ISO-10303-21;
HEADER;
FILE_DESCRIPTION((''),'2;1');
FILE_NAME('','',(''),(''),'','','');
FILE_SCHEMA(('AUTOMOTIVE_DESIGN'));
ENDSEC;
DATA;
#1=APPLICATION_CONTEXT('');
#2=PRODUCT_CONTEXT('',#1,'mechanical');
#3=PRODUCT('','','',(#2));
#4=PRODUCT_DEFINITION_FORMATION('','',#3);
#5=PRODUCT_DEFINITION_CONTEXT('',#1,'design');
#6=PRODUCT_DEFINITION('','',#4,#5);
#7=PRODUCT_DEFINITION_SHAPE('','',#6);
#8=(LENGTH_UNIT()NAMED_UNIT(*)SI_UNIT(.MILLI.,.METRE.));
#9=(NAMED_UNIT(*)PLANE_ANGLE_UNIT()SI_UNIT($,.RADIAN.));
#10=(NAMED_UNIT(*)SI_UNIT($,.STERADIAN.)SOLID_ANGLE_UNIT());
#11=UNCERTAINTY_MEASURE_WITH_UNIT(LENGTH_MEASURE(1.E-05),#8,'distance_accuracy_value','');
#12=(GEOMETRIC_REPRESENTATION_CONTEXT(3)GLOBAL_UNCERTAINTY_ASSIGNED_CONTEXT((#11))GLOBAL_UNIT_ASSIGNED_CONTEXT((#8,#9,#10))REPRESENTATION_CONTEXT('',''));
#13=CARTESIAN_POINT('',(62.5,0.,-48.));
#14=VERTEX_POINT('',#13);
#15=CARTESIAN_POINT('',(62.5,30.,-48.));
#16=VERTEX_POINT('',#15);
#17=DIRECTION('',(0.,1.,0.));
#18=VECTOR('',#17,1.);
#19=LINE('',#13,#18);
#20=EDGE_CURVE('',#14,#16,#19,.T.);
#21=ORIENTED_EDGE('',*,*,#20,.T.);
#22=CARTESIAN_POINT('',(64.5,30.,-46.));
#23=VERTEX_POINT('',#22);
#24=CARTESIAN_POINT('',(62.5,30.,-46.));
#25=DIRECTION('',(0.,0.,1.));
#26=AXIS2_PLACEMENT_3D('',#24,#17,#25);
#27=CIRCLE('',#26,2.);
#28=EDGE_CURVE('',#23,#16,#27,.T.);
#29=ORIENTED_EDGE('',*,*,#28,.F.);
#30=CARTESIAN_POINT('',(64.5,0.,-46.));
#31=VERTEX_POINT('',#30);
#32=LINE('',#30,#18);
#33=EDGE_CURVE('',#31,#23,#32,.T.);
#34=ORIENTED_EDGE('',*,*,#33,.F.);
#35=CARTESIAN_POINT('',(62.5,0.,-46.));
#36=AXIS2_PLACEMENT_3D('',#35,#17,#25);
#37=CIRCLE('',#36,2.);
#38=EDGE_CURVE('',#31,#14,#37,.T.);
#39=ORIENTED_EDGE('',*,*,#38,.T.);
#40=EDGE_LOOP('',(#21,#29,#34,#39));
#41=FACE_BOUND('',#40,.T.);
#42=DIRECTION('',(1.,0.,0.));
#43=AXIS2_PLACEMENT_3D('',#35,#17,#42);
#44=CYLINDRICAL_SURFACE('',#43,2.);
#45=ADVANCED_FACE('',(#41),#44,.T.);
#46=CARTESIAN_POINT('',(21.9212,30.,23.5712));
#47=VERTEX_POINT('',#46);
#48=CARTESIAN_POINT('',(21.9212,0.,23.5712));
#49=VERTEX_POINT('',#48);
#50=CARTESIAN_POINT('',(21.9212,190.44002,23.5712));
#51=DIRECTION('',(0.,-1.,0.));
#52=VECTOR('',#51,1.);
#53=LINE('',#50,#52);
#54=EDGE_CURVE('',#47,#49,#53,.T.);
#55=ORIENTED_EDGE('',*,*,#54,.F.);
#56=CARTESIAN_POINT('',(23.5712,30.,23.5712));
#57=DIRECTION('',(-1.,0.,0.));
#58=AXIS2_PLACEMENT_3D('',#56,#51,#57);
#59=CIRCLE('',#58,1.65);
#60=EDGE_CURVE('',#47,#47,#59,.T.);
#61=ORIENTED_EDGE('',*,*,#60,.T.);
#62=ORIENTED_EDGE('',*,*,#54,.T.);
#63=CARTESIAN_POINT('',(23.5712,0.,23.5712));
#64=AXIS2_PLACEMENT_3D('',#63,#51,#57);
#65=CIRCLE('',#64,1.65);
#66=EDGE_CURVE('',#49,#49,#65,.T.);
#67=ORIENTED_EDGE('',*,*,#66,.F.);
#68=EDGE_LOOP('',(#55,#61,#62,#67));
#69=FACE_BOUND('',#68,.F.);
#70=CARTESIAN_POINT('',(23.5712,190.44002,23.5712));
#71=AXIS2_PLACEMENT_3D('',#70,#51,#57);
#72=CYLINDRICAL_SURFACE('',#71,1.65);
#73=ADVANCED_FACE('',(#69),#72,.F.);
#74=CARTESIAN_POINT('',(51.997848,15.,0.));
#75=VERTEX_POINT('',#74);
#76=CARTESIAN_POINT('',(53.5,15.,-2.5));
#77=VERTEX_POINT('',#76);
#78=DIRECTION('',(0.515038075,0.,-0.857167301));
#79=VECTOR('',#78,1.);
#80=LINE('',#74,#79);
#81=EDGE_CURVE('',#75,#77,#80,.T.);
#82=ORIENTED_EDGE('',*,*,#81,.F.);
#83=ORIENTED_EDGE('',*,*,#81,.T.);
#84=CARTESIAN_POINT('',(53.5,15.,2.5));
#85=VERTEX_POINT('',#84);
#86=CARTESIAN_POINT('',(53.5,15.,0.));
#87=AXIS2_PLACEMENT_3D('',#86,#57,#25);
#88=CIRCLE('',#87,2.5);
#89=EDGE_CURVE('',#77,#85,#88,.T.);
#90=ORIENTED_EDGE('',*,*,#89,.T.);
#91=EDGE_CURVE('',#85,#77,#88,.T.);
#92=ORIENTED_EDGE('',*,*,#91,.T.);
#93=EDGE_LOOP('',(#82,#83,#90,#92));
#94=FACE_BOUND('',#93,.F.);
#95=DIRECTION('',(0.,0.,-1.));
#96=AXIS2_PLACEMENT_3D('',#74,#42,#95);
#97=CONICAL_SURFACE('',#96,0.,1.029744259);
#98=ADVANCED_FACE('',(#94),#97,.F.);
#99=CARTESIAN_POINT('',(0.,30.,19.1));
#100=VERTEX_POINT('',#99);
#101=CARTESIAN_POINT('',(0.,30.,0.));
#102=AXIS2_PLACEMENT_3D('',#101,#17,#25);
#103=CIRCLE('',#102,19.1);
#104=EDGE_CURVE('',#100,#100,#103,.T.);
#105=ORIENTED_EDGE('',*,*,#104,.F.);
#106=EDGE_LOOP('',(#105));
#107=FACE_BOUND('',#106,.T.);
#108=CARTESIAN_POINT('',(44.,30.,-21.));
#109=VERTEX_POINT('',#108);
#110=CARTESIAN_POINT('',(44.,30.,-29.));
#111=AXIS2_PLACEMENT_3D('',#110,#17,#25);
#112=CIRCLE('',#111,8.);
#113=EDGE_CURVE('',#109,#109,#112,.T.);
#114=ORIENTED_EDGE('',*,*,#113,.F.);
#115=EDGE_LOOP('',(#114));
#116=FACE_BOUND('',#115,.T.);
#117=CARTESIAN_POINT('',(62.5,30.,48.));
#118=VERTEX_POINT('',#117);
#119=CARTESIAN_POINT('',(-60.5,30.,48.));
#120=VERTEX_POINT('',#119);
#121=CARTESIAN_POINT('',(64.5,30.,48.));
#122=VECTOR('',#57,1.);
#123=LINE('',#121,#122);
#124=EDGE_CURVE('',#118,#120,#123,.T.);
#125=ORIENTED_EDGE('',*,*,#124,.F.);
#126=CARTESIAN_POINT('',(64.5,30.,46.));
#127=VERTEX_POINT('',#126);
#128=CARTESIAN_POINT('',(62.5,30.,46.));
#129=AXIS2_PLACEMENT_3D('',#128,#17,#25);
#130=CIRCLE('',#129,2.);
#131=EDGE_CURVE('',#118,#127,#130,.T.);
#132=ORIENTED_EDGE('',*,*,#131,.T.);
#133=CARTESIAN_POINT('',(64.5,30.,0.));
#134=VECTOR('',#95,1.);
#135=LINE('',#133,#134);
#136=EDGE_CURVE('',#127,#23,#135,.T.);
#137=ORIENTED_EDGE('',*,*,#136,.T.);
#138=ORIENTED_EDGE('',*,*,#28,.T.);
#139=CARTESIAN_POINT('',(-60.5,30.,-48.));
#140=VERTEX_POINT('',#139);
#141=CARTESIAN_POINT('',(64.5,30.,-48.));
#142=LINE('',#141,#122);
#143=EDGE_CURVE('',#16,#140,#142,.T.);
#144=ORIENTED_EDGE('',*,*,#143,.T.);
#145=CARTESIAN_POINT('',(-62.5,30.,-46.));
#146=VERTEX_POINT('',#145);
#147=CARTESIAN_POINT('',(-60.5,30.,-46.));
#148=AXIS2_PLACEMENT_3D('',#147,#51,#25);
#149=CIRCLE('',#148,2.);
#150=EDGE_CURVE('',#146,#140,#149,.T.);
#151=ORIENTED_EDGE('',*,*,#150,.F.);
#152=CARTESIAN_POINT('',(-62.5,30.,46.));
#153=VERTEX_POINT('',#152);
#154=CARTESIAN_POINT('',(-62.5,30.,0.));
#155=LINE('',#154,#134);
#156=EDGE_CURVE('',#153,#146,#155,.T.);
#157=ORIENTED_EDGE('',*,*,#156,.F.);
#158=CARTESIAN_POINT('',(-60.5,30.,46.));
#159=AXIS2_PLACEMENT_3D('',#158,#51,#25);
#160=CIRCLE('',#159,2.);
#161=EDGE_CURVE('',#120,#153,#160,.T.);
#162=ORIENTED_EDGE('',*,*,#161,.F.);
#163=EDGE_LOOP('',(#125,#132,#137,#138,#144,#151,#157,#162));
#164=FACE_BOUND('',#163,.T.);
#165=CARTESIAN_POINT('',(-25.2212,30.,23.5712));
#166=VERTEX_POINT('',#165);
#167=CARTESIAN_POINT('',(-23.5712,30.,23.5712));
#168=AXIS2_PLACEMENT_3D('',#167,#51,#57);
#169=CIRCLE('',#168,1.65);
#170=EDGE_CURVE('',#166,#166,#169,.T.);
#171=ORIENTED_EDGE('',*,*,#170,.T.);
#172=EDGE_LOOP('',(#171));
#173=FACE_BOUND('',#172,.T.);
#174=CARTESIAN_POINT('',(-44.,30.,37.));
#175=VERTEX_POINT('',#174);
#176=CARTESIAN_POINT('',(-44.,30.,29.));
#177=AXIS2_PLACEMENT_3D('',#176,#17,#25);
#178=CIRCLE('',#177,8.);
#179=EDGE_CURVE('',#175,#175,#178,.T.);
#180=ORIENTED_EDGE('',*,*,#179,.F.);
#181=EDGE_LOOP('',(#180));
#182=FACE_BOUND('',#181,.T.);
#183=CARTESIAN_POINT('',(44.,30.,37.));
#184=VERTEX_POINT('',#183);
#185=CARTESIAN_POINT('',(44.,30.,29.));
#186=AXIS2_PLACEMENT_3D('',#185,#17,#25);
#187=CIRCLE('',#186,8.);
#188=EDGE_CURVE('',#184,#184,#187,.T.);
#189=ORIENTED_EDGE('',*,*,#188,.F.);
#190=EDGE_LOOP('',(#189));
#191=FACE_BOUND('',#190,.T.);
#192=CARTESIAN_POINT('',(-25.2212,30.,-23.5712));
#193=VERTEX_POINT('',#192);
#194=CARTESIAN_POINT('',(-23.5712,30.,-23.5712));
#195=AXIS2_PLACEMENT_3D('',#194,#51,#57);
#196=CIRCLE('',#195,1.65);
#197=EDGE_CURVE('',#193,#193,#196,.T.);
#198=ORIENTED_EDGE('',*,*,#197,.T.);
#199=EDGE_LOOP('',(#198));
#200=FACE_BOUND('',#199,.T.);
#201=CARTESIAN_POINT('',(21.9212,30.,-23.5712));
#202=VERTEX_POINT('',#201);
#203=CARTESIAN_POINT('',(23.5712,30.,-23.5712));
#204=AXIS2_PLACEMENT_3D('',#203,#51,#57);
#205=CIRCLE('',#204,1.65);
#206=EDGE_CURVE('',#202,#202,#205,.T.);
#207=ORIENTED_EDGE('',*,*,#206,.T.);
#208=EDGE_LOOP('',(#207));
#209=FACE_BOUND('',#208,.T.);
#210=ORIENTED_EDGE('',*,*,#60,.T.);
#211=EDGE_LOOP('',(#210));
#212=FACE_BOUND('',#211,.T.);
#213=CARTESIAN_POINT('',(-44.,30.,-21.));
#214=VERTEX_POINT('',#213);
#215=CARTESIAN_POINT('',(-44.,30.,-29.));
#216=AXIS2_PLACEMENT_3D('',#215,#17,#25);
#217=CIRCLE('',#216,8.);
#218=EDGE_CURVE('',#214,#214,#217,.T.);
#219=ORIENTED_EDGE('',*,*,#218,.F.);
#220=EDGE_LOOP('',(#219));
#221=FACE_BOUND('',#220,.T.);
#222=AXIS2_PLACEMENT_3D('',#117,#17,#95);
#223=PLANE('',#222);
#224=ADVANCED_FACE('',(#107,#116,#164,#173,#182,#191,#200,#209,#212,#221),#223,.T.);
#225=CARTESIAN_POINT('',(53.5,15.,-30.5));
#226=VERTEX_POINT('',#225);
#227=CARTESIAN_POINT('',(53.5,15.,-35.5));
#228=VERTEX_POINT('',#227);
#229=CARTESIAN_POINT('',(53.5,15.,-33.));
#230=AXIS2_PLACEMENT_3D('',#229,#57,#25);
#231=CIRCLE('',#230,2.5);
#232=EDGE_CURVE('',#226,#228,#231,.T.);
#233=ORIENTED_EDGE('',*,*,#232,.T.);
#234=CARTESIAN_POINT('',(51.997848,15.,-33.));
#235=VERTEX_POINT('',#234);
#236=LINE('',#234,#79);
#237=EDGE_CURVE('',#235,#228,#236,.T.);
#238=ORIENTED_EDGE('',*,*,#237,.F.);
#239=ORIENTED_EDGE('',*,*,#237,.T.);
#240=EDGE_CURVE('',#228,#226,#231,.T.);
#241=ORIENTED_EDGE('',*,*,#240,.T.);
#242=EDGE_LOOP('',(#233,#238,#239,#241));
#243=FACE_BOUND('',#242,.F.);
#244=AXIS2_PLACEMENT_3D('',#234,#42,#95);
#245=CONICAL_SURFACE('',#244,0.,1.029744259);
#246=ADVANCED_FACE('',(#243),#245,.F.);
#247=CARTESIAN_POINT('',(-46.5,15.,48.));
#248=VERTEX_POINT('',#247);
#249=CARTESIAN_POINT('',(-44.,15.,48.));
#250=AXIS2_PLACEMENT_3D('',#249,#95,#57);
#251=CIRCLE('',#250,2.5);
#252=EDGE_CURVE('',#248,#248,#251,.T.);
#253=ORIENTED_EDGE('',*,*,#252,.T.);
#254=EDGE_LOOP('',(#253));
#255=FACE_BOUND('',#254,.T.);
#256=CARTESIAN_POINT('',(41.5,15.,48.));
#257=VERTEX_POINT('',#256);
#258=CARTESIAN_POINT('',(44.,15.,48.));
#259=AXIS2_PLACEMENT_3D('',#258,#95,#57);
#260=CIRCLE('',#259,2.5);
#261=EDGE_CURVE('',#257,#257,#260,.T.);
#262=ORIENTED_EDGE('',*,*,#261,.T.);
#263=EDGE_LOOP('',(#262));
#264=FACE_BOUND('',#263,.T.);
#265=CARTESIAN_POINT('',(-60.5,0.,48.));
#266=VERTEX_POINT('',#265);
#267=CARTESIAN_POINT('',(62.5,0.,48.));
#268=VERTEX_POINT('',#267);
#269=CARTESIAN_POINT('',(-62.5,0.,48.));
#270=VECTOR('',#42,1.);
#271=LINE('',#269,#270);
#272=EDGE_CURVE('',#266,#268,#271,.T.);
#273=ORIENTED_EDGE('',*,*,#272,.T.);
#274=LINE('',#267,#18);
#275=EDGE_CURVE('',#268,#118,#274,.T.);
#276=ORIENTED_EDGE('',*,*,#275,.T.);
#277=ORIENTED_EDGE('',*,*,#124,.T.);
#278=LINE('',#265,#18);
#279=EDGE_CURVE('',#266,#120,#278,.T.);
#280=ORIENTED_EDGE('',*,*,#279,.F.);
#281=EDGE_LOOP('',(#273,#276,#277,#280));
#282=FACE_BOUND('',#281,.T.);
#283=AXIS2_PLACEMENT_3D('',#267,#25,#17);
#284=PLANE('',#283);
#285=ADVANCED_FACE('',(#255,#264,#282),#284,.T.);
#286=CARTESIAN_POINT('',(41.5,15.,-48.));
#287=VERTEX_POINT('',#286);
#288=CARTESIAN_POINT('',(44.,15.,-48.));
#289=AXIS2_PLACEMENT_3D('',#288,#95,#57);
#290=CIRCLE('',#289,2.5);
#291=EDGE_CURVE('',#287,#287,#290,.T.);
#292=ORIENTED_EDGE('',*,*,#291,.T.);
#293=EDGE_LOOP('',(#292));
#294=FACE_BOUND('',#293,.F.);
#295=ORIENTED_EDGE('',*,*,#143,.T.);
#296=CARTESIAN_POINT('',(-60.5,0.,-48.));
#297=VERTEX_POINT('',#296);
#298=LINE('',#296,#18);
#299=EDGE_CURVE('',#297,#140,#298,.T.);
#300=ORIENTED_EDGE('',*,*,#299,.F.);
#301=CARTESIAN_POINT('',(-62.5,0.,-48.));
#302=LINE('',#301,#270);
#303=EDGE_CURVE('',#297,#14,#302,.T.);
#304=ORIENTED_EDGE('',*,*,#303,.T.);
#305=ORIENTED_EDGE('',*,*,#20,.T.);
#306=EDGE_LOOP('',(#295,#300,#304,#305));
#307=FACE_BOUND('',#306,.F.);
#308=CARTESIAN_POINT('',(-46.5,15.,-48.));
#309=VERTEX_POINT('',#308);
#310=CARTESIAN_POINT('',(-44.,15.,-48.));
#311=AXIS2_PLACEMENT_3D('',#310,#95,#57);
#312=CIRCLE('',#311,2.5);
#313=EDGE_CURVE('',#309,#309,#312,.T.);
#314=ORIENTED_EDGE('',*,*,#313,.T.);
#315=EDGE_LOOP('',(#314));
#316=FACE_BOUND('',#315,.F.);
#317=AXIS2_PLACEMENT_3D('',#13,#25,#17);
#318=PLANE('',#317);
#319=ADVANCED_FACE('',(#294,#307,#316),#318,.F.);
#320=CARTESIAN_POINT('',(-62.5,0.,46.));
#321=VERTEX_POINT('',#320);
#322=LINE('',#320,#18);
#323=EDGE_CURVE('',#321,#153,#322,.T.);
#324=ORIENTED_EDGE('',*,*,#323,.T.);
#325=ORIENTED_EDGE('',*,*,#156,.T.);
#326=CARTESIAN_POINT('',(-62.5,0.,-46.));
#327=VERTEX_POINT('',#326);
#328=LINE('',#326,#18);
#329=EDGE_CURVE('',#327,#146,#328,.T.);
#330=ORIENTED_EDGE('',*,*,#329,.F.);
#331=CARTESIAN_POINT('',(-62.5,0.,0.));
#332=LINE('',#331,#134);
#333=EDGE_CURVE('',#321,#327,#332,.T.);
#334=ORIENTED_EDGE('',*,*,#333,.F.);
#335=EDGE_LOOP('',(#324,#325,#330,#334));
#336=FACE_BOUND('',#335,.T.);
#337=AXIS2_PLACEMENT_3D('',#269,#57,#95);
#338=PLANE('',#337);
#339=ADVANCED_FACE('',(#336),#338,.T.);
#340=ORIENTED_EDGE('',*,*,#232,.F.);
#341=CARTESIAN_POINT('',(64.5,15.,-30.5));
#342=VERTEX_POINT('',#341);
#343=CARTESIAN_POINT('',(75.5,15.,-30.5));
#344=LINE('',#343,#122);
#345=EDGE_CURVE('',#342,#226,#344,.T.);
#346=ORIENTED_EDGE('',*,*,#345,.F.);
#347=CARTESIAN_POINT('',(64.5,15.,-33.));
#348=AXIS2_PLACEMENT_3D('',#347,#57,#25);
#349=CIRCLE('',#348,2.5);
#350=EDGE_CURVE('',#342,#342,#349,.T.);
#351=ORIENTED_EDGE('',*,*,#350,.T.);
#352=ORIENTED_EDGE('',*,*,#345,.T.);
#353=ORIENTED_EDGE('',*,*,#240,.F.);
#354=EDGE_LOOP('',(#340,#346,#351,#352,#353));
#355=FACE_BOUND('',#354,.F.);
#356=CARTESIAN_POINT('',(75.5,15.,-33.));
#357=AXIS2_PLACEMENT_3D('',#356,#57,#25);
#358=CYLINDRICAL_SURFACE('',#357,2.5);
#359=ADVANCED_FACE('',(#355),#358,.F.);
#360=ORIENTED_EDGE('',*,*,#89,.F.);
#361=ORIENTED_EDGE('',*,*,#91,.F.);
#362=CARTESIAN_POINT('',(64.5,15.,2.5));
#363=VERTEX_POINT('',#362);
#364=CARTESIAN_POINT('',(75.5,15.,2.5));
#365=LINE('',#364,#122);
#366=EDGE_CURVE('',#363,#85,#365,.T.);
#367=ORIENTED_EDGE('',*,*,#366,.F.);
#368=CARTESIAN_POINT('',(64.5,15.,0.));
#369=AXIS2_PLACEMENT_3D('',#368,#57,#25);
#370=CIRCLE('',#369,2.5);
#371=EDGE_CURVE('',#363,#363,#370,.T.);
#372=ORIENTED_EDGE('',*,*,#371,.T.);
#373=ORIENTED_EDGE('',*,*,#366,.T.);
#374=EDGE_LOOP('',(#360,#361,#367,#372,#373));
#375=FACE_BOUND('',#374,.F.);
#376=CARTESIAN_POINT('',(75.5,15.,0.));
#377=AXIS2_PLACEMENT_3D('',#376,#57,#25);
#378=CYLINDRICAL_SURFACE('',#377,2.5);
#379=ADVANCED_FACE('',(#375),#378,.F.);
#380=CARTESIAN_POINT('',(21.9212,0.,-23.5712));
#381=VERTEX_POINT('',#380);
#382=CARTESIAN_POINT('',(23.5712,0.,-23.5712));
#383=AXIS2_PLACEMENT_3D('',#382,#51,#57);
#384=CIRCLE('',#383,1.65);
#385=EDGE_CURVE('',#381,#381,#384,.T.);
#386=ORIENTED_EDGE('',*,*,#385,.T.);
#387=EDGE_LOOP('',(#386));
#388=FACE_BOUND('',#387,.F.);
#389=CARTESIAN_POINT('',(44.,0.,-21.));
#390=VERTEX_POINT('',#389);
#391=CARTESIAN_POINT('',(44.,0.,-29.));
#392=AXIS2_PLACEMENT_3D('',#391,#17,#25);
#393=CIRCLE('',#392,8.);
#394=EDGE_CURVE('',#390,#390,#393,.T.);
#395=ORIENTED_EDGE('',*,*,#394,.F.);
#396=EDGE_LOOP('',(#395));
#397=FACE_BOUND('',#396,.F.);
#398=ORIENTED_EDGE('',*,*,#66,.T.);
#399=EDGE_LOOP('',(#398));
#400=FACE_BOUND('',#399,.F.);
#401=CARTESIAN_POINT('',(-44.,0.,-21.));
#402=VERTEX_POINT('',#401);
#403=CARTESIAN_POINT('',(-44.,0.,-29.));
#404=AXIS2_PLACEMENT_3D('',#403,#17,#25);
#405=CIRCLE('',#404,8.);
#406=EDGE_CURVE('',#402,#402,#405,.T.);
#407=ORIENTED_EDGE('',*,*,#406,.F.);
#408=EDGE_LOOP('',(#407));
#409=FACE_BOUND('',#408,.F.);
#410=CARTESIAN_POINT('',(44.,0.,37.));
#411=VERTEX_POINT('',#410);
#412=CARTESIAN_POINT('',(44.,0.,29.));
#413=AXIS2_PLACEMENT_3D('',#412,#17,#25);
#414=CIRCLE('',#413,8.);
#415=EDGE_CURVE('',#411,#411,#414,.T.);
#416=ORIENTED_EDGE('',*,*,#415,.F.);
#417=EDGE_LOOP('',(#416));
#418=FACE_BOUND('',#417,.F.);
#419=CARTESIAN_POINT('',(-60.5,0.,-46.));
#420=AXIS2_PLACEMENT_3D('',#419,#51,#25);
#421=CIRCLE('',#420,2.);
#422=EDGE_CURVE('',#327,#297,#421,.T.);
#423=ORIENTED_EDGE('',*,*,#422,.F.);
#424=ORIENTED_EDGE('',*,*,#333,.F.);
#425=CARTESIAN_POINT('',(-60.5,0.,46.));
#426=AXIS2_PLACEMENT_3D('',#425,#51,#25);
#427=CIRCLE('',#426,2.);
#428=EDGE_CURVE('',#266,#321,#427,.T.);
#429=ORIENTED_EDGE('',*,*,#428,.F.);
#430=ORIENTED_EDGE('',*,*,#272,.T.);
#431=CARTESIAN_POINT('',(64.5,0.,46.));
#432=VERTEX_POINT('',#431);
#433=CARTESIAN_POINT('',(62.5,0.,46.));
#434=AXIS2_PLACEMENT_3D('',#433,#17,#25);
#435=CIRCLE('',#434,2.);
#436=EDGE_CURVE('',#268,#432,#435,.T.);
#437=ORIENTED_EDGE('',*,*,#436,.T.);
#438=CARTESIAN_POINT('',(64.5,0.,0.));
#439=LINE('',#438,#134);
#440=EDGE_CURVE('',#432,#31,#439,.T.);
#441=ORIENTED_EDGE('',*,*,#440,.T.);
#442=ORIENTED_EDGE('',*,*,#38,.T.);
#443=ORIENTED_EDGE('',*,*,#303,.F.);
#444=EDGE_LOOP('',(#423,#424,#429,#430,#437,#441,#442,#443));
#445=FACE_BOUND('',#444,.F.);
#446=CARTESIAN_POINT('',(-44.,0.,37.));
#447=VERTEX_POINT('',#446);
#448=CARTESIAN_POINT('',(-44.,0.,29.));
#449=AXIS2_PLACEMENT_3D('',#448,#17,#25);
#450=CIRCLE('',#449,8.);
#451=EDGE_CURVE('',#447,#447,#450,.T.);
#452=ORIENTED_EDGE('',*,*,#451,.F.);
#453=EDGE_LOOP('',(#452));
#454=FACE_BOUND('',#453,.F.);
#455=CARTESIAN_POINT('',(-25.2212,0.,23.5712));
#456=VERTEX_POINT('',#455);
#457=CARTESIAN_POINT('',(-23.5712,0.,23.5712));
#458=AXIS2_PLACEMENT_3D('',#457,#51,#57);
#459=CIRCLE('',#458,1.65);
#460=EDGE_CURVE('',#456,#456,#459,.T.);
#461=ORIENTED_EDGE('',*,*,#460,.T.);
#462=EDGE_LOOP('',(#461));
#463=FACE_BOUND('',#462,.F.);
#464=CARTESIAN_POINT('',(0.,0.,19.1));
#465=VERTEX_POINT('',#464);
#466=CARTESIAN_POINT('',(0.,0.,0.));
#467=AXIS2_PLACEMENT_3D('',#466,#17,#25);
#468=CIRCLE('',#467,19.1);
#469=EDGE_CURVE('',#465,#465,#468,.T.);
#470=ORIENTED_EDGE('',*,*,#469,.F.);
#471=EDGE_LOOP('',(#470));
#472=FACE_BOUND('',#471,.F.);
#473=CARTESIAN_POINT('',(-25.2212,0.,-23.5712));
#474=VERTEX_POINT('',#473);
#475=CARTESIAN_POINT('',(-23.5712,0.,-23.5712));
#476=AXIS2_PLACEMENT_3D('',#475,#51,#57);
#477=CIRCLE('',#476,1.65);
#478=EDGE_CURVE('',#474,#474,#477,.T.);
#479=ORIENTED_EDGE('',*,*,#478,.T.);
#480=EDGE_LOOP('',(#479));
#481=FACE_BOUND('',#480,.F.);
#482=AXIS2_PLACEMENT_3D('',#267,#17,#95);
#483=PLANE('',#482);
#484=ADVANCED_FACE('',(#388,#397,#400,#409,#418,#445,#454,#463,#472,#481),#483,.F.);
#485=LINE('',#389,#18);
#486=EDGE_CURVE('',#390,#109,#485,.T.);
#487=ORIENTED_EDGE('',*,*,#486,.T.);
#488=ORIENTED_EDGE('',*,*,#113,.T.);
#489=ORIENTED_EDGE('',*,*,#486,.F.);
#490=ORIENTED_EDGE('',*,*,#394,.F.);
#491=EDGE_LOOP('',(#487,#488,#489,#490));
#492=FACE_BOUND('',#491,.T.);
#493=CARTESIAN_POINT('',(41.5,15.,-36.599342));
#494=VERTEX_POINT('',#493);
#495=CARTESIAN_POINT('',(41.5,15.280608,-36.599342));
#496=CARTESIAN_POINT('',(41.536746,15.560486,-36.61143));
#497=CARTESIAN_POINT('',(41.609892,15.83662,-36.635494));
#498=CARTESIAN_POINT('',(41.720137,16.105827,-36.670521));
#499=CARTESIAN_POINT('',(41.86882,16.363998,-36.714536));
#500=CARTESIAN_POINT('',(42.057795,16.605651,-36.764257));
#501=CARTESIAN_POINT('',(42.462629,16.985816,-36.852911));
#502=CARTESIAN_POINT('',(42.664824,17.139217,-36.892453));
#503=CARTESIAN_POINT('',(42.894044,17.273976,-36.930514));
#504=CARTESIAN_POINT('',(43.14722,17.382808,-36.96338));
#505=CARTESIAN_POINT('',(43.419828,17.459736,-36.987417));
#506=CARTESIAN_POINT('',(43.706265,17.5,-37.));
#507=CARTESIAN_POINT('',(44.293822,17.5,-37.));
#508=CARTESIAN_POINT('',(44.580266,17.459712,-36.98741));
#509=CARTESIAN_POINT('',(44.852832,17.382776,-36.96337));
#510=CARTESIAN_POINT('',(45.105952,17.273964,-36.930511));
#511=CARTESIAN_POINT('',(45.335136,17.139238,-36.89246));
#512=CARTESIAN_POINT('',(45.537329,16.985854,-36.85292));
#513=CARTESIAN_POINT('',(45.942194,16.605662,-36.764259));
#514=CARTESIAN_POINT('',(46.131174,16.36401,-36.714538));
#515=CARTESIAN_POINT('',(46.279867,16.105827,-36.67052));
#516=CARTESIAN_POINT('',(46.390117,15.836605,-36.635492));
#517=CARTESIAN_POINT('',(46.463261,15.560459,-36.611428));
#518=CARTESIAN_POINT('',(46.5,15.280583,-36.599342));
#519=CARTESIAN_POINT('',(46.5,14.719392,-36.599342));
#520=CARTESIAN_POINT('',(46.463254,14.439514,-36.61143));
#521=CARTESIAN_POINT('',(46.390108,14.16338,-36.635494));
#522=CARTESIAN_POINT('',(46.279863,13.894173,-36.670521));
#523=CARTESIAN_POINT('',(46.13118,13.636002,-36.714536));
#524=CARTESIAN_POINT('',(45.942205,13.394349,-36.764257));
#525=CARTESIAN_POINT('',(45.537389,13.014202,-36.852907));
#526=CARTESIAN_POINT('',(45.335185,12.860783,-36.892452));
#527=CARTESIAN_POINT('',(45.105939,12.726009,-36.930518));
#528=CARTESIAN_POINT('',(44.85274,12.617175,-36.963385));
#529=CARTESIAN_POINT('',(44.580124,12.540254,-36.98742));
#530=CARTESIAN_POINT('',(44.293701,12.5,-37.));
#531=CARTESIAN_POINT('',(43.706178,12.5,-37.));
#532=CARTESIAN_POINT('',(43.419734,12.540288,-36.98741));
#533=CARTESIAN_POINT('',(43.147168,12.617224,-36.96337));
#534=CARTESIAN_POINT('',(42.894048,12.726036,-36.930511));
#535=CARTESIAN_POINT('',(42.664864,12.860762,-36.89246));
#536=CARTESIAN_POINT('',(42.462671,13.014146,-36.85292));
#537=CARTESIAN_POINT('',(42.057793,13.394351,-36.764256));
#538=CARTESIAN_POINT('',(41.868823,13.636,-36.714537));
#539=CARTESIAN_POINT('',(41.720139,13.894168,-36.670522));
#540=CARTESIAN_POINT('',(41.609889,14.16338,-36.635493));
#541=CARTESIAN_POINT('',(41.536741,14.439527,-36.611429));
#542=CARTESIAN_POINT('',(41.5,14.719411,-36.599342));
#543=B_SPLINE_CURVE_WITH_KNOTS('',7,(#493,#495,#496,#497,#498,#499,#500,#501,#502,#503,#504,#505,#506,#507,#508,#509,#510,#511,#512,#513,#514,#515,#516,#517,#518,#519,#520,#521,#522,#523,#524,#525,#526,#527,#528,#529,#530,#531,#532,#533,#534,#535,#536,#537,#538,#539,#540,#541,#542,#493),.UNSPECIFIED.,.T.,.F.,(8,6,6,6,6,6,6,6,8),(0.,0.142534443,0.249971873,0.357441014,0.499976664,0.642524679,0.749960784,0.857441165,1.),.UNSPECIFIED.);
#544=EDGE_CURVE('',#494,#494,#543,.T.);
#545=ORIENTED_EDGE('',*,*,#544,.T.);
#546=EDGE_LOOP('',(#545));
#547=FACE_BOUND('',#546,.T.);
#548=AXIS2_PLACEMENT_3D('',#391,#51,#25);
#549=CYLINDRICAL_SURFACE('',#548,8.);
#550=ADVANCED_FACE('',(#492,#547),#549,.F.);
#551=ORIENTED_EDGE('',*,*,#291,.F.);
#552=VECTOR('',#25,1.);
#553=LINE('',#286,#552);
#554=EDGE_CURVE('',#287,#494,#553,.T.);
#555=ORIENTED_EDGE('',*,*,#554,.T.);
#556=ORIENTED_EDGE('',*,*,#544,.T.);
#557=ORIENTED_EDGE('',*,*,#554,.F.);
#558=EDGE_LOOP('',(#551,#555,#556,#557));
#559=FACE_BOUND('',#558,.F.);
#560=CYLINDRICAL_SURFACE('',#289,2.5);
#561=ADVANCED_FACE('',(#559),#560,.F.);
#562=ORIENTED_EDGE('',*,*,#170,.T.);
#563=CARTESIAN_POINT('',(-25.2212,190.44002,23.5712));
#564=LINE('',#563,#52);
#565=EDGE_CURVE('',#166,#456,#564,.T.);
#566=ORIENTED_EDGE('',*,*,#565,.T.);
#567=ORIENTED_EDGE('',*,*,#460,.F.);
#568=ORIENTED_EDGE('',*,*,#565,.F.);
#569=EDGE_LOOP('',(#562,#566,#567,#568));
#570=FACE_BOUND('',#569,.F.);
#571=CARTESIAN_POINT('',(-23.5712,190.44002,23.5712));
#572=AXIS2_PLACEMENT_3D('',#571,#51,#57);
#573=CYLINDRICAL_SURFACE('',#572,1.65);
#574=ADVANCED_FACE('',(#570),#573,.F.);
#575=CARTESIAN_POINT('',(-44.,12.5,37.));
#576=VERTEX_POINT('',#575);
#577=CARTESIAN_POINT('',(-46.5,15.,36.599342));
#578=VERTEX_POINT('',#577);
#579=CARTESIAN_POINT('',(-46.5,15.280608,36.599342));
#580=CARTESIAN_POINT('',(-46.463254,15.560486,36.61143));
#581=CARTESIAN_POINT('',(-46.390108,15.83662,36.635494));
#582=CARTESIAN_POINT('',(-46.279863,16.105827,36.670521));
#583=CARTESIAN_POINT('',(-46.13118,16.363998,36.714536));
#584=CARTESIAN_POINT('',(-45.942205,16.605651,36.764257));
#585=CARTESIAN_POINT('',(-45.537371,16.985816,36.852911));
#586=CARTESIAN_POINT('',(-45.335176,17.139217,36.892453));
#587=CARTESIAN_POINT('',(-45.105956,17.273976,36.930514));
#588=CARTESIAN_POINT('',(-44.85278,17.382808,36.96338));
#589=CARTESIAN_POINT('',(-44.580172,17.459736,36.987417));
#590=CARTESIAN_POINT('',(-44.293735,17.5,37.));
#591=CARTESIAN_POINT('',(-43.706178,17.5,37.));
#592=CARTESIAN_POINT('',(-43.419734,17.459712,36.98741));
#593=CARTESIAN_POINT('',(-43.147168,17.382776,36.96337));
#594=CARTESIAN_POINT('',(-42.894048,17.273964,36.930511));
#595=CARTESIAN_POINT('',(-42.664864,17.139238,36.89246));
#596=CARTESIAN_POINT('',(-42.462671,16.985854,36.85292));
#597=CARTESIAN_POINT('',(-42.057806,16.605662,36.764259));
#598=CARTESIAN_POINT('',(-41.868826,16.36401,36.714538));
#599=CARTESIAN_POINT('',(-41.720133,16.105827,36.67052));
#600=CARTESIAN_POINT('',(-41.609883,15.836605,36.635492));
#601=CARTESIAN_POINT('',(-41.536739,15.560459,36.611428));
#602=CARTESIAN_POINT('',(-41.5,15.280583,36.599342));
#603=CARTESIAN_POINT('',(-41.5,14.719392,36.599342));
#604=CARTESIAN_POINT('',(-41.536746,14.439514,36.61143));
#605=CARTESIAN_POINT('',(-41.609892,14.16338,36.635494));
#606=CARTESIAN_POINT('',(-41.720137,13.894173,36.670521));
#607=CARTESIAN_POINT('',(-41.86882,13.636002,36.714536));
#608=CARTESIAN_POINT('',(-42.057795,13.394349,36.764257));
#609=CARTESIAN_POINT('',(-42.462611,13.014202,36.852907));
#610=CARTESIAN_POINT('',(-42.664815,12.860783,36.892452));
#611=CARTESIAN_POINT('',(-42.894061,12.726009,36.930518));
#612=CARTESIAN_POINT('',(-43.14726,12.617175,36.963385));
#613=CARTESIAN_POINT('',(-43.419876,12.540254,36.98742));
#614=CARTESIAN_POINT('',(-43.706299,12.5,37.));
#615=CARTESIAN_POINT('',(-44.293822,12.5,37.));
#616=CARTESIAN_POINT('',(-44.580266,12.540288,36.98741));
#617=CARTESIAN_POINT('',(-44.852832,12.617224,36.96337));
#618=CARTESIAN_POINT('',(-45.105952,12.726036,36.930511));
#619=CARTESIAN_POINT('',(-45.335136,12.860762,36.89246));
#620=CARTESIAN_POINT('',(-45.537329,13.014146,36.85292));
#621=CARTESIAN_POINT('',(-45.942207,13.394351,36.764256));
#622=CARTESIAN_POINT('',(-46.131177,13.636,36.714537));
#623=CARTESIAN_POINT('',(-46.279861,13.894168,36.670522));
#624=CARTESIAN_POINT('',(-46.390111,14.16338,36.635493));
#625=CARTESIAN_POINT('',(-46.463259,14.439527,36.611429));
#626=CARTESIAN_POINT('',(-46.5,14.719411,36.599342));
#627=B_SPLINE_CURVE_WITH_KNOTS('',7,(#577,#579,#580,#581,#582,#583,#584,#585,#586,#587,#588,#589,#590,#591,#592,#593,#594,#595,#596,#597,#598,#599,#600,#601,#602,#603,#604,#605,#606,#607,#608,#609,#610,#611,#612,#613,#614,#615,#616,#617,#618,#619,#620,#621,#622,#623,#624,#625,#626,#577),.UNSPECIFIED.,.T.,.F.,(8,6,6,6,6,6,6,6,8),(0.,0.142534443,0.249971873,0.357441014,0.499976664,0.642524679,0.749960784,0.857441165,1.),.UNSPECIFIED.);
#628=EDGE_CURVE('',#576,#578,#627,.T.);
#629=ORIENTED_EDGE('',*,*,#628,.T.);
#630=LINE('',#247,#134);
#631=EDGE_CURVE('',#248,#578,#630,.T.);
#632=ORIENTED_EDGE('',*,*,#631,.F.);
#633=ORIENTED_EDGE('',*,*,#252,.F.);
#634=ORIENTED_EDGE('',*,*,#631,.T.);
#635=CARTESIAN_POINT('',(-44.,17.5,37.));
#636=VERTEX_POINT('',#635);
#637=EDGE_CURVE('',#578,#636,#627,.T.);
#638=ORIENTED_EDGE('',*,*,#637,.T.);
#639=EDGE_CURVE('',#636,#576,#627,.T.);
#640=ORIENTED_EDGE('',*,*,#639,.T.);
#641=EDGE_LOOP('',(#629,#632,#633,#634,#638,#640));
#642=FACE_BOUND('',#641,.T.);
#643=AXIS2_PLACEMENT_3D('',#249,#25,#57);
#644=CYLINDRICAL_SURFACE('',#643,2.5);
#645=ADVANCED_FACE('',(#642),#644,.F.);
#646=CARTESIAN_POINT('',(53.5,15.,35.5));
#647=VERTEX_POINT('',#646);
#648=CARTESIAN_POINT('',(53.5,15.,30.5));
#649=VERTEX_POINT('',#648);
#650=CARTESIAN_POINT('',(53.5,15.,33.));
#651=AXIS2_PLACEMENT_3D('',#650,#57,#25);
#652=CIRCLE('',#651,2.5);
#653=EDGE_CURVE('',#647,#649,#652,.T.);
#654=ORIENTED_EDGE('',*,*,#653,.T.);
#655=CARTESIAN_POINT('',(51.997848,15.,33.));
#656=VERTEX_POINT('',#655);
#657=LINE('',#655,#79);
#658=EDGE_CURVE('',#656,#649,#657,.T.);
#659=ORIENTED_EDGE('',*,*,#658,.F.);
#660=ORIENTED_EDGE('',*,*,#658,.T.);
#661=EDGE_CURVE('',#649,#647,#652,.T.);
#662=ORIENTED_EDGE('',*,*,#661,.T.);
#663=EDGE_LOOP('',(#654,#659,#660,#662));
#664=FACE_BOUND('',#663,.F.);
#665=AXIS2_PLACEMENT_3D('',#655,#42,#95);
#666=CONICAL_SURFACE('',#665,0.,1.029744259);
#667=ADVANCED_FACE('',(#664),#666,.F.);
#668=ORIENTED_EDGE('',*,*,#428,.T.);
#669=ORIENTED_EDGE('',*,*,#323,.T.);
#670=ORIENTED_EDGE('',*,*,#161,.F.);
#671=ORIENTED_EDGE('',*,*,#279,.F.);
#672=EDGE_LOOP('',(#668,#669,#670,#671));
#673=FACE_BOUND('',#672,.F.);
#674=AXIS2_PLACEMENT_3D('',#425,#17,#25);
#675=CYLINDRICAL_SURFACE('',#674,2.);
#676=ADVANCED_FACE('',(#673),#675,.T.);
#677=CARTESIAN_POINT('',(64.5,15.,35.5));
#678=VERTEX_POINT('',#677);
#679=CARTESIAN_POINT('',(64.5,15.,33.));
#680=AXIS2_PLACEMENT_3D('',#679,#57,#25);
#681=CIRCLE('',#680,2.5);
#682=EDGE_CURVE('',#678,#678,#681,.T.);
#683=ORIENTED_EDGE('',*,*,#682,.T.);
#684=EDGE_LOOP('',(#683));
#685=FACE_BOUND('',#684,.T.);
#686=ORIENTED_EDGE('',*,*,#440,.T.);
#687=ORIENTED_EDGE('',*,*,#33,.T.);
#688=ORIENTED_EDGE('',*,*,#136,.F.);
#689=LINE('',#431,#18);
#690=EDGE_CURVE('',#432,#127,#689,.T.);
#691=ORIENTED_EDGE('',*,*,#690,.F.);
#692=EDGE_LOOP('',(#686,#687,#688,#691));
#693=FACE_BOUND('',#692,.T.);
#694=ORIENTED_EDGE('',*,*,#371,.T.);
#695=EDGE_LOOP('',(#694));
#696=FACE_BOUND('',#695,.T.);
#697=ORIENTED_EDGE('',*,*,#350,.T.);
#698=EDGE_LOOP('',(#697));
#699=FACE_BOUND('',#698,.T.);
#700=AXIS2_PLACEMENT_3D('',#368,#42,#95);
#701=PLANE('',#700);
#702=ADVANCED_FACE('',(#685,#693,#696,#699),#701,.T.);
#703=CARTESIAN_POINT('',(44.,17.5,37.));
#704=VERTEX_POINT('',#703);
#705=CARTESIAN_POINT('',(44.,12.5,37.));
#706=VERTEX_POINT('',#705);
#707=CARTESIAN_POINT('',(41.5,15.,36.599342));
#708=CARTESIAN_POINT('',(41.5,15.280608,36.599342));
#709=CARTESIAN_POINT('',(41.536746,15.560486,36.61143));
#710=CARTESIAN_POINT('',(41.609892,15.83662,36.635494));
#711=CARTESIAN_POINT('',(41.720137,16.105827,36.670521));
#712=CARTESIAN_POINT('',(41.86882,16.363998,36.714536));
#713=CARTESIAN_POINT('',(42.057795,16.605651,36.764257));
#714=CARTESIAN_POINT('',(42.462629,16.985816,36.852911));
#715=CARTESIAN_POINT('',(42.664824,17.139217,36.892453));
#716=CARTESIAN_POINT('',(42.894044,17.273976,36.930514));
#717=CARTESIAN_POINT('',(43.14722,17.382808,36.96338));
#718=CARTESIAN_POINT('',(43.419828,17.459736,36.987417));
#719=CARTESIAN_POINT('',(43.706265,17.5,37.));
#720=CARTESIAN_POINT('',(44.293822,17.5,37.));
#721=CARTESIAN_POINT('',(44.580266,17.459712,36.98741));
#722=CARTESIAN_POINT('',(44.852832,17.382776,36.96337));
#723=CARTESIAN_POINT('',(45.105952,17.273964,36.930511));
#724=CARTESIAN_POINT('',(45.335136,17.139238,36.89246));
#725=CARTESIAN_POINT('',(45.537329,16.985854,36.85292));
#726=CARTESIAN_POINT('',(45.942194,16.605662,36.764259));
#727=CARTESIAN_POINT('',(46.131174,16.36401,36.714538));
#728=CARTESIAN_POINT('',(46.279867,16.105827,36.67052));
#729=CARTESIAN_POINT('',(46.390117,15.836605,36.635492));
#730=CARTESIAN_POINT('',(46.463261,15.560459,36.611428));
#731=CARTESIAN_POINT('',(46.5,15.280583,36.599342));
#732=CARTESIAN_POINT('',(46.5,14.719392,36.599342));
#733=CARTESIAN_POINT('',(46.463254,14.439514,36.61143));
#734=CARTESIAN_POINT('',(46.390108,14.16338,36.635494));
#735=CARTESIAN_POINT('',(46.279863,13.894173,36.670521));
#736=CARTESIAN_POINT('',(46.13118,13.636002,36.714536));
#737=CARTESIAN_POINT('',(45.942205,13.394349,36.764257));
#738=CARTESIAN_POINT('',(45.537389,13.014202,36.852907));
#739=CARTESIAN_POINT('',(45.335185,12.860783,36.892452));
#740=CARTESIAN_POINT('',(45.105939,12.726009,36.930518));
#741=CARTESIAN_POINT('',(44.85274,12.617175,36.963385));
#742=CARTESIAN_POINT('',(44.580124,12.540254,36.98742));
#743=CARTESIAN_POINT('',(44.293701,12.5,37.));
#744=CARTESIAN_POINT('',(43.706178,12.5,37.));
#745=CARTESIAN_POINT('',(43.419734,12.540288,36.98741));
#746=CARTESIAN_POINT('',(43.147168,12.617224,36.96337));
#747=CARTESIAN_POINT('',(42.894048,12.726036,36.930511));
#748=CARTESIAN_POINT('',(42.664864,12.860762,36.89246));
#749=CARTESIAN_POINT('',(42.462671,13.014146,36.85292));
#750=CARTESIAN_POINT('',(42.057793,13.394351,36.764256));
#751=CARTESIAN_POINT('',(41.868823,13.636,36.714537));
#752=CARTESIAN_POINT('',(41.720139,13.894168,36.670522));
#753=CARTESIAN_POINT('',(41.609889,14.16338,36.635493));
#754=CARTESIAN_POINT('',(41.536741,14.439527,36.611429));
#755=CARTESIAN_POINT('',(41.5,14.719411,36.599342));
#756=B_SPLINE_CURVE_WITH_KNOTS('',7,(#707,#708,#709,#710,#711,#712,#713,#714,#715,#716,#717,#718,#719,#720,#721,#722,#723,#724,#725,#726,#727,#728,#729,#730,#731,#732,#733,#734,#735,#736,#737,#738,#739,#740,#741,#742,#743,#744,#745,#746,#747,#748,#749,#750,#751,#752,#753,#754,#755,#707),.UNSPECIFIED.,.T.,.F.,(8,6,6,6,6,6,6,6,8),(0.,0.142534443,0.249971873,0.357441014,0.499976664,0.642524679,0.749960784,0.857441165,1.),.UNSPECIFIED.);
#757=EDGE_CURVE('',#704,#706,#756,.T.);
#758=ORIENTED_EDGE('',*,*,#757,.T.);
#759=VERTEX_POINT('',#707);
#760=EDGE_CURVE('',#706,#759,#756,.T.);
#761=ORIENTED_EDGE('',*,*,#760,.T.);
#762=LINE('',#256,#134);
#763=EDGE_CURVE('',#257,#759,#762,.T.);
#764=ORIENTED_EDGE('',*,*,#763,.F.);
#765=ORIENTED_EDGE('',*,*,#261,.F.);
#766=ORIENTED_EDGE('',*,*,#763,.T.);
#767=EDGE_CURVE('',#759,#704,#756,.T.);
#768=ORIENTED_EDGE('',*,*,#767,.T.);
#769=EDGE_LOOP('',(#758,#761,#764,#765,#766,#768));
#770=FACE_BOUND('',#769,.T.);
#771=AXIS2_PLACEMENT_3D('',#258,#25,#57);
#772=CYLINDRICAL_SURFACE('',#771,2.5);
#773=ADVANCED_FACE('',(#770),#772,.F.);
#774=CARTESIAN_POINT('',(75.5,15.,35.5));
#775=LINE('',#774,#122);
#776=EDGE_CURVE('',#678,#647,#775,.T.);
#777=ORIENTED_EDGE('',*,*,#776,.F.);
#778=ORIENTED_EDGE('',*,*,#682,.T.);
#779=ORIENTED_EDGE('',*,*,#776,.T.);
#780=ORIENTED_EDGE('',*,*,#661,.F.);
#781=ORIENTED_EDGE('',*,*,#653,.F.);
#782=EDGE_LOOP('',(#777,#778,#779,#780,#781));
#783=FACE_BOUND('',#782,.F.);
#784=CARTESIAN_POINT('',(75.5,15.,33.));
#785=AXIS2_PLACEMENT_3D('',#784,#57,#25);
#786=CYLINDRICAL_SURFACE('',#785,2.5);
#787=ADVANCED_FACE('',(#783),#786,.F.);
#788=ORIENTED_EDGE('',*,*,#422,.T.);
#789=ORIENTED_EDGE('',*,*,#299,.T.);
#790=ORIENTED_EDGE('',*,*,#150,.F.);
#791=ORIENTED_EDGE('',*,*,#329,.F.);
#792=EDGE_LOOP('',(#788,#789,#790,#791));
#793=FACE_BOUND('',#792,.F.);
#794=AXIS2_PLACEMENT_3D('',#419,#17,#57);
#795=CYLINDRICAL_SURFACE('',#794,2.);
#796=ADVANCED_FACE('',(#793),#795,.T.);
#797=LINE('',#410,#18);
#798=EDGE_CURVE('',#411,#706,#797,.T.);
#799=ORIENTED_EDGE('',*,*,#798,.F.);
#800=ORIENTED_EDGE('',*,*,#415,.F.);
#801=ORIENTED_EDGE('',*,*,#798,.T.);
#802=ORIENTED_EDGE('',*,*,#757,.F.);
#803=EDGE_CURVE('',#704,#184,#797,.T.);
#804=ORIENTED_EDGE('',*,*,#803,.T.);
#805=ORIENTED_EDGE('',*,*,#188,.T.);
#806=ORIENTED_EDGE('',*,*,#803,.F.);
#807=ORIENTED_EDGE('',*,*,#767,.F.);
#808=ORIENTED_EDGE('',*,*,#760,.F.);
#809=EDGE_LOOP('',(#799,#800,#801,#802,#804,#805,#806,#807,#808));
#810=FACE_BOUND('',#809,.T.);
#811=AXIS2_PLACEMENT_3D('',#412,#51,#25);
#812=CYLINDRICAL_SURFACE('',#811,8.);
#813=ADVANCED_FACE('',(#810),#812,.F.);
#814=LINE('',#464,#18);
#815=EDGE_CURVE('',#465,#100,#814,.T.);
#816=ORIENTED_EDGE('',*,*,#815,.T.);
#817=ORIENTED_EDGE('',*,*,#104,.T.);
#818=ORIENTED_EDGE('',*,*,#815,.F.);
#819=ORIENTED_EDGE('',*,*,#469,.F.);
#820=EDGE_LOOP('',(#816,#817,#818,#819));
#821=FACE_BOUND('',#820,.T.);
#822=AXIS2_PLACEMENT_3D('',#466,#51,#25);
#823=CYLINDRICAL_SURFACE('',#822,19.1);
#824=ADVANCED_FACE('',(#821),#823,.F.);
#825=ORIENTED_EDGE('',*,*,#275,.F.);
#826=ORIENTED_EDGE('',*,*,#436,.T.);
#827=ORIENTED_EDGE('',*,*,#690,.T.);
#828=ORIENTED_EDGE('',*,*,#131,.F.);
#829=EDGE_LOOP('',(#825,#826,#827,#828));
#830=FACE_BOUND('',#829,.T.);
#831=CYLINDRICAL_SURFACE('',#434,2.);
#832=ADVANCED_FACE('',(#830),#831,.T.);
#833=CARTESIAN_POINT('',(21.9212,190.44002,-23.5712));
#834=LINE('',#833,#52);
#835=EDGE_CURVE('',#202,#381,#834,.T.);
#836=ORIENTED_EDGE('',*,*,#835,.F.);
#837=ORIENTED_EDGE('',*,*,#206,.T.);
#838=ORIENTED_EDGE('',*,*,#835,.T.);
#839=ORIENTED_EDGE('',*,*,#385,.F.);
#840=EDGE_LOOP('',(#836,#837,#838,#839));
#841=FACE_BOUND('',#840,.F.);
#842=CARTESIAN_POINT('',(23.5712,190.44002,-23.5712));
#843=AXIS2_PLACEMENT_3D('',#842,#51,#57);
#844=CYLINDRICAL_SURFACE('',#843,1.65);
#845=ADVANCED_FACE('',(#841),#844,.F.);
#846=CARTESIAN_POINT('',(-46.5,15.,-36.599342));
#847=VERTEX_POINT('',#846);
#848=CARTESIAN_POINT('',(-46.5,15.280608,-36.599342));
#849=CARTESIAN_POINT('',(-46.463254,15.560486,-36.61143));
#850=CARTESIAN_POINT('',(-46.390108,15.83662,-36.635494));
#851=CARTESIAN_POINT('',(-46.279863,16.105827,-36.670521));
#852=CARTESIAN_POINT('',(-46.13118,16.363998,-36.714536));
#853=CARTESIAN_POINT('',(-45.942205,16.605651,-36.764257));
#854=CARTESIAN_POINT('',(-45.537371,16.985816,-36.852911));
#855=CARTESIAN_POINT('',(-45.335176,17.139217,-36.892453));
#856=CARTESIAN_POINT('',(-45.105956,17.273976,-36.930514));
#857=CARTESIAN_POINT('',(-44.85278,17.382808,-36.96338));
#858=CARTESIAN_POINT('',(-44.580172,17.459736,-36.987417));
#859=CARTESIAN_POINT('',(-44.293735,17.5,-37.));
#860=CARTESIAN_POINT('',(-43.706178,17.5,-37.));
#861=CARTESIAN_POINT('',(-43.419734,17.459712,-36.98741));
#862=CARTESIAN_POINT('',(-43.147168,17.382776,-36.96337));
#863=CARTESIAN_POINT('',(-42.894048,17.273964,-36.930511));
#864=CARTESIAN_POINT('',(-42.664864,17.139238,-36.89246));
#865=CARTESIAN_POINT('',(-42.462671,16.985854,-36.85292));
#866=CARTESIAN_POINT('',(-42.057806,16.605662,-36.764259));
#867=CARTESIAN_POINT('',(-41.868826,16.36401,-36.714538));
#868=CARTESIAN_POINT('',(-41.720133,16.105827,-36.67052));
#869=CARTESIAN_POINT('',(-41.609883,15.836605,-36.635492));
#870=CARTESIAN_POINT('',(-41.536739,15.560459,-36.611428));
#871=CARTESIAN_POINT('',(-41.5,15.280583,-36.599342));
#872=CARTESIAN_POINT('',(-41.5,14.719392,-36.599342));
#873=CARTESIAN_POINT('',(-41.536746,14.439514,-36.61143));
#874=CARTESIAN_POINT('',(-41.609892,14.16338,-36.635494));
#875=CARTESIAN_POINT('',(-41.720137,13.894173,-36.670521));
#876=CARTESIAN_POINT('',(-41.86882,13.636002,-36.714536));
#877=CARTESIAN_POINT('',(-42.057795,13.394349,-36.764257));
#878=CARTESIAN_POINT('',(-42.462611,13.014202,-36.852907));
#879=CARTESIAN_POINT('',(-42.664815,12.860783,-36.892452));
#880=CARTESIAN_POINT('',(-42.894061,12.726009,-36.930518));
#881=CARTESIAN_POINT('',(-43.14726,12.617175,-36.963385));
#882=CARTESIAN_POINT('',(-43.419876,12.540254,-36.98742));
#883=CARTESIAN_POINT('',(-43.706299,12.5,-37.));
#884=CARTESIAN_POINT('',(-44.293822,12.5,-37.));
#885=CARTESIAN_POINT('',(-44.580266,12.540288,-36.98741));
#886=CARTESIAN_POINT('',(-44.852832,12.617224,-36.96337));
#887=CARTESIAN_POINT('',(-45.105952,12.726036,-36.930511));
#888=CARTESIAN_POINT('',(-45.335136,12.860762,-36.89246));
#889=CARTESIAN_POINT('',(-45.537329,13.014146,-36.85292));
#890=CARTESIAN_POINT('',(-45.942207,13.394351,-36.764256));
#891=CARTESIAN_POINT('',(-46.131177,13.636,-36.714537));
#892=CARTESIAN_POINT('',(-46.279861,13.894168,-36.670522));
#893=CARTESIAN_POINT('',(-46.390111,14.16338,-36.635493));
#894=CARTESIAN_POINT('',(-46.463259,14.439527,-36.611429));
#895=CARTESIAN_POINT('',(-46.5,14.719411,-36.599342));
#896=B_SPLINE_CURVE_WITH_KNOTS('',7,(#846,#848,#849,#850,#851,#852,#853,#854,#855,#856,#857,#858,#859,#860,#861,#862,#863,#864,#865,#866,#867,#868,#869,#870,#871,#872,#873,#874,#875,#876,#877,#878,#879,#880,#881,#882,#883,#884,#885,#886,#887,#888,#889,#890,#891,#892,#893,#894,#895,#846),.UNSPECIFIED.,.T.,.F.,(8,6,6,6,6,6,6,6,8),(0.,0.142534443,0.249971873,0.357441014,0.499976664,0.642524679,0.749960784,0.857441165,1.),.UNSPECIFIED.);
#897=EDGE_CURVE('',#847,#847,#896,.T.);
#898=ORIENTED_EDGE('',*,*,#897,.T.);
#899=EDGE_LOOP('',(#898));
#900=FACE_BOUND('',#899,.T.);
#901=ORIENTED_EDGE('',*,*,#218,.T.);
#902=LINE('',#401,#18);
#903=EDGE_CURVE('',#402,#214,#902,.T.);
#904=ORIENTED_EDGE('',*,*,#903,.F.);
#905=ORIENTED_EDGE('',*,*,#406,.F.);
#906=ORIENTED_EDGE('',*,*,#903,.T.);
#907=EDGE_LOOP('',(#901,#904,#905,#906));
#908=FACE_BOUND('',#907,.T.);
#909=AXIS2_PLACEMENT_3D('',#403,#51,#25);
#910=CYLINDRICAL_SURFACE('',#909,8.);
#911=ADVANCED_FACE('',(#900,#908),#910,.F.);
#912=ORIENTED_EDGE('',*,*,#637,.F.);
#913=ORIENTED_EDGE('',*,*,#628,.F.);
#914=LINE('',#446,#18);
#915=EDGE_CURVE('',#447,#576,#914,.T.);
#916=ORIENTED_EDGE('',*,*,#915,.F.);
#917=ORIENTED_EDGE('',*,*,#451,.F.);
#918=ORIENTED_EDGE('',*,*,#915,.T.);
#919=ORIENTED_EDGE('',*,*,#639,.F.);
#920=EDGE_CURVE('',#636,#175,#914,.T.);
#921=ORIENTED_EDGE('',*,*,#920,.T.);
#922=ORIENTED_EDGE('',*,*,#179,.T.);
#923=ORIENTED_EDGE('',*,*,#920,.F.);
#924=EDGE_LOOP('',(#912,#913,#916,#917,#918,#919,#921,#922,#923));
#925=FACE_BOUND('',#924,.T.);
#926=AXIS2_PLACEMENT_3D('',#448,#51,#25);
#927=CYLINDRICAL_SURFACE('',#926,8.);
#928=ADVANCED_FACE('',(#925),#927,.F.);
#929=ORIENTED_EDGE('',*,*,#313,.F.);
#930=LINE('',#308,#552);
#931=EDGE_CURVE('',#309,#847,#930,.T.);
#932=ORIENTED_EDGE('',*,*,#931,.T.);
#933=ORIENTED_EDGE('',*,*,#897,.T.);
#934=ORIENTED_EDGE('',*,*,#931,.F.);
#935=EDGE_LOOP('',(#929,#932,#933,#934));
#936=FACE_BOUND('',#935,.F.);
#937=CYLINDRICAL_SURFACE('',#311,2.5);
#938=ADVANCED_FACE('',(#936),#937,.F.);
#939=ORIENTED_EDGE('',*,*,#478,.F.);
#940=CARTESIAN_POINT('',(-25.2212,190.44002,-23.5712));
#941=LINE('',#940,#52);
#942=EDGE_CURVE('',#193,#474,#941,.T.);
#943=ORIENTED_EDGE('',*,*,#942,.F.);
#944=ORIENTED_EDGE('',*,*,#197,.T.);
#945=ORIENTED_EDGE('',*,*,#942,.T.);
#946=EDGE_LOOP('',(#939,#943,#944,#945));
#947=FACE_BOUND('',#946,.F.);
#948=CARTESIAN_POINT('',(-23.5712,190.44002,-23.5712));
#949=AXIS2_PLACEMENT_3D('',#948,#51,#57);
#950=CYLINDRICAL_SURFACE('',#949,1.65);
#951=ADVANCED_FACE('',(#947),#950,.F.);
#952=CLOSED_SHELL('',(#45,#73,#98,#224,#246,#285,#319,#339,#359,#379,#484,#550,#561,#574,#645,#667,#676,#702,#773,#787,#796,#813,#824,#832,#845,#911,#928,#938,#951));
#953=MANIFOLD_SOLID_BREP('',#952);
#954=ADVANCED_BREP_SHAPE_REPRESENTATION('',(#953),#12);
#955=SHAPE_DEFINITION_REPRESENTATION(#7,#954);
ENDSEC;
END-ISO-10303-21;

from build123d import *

# Parameters (mm, degrees)
SKETCH2_W                  = 125
SKETCH2_H                  = 96
SKETCH2_R                  = 8
SKETCH2_R_2                = 19.1
BOSS_EXTRUDE1_DEPTH        = 30
M4X0_7_TAPPED_HOLE1_D      = 3.3
SKETCH10_W                 = 96
SKETCH10_H                 = 30
BOSS_EXTRUDE3_DEPTH        = 2
M6X1_0_TAPPED_HOLE1_D      = 5
M6X1_0_TAPPED_HOLE1_DEPTH  = 11
M6X1_0_TAPPED_HOLE1_TIP    = 1.502151548
M6X1_0_TAPPED_HOLE3_REACH  = 121.483
M6X1_0_TAPPED_HOLE3_BORE_R = 2.5
FILLET1_R                  = 2


with BuildPart() as part:
    # Sketch2 → Boss-Extrude1 (new body)
    with BuildSketch(Plane(origin=(0, 0, 0), x_dir=(1, 0, 0), z_dir=(0, 1, 0))):
        Rectangle(SKETCH2_W, SKETCH2_H)
        with Locations(Location((-44, 29, 0), (0, 0, 270))):
            Circle(SKETCH2_R, mode=Mode.SUBTRACT)
        with Locations(Location((-44, -29, 0), (0, 0, 270))):
            Circle(SKETCH2_R, mode=Mode.SUBTRACT)
        with Locations(Location((44, -29, 0), (0, 0, 270))):
            Circle(SKETCH2_R, mode=Mode.SUBTRACT)
        with Locations(Location((44, 29, 0), (0, 0, 270))):
            Circle(SKETCH2_R, mode=Mode.SUBTRACT)
        with Locations(Location((0, 0, 0), (0, 0, 270))):
            Circle(SKETCH2_R_2, mode=Mode.SUBTRACT)
    extrude(amount=BOSS_EXTRUDE1_DEPTH)

    # M4x0.7 Tapped Hole1 (through all)
    with Locations(Plane(origin=(0, 30, 0), x_dir=(1, 0, 0), z_dir=(0, 1, 0))):
        with Locations((-23.5712, 23.5712), (23.5712, 23.5712), (23.5712, -23.5712), (-23.5712, -23.5712)):
            Hole(M4X0_7_TAPPED_HOLE1_D / 2)

    # Sketch10 → Boss-Extrude3 (add)
    with BuildSketch(Plane(origin=(62.5, 0, 0), x_dir=(0, 0, -1), z_dir=(1, 0, 0))):
        with Locations((0, 15)):
            Rectangle(SKETCH10_W, SKETCH10_H)
    extrude(amount=BOSS_EXTRUDE3_DEPTH)

    # M6x1.0 Tapped Hole1
    with Locations(Plane(origin=(64.5, 0, 0), x_dir=(0, 0, -1), z_dir=(1, 0, 0))):
        with Locations((-33, 15), (0, 15), (33, 15)):
            Hole(M6X1_0_TAPPED_HOLE1_D / 2, depth=M6X1_0_TAPPED_HOLE1_DEPTH)
            with Locations((0, 0, -(M6X1_0_TAPPED_HOLE1_DEPTH + M6X1_0_TAPPED_HOLE1_TIP / 2))):  # 118° drill point
                Cone(0, M6X1_0_TAPPED_HOLE1_D / 2, M6X1_0_TAPPED_HOLE1_TIP, mode=Mode.SUBTRACT)

    # M6x1.0 Tapped Hole3 bore → M6x1.0 Tapped Hole3 (cut, up to next)
    with BuildSketch(Plane(origin=(0, 0, -48), x_dir=(-1, 0, 0), z_dir=(0, 0, -1)), mode=Mode.PRIVATE) as m6x1_0_tapped_hole3_sk1:
        with Locations((-44, 15)):
            Circle(M6X1_0_TAPPED_HOLE3_BORE_R)
    m6x1_0_tapped_hole3_tool1 = extrude(m6x1_0_tapped_hole3_sk1.sketch, amount=-M6X1_0_TAPPED_HOLE3_REACH, mode=Mode.PRIVATE) & part.part
    # M6x1.0 Tapped Hole3 bore → M6x1.0 Tapped Hole3 (cut, up to next)
    with BuildSketch(Plane(origin=(0, 0, -48), x_dir=(-1, 0, 0), z_dir=(0, 0, -1)), mode=Mode.PRIVATE) as m6x1_0_tapped_hole3_sk2:
        with Locations((44, 15)):
            Circle(M6X1_0_TAPPED_HOLE3_BORE_R)
    m6x1_0_tapped_hole3_tool2 = extrude(m6x1_0_tapped_hole3_sk2.sketch, amount=-M6X1_0_TAPPED_HOLE3_REACH, mode=Mode.PRIVATE) & part.part
    m6x1_0_tapped_hole3_1 = m6x1_0_tapped_hole3_tool1.solids().sort_by_distance((44, 15, -48))[0]
    add(m6x1_0_tapped_hole3_1, mode=Mode.SUBTRACT)
    m6x1_0_tapped_hole3_2 = m6x1_0_tapped_hole3_tool2.solids().sort_by_distance((-44, 15, -48))[0]
    add(m6x1_0_tapped_hole3_2, mode=Mode.SUBTRACT)
    m6x1_0_tapped_hole3 = m6x1_0_tapped_hole3_1 + m6x1_0_tapped_hole3_2  # M6x1.0 Tapped Hole3 as one shape, for the pattern or mirror that repeats it

    # Fillet1
    fillet1_edges = [part.edges().sort_by_distance(p)[0] for p in [
        (64.5, 15, 48),
        (64.5, 15, -48),
        (-62.5, 15, -48),
        (-62.5, 15, 48),
    ]]
    fillet(fillet1_edges, radius=FILLET1_R)

    # Mirror1: M6x1.0 Tapped Hole3 across plane
    add(m6x1_0_tapped_hole3.mirror(Plane.XY), mode=Mode.SUBTRACT)


solid = part.part
